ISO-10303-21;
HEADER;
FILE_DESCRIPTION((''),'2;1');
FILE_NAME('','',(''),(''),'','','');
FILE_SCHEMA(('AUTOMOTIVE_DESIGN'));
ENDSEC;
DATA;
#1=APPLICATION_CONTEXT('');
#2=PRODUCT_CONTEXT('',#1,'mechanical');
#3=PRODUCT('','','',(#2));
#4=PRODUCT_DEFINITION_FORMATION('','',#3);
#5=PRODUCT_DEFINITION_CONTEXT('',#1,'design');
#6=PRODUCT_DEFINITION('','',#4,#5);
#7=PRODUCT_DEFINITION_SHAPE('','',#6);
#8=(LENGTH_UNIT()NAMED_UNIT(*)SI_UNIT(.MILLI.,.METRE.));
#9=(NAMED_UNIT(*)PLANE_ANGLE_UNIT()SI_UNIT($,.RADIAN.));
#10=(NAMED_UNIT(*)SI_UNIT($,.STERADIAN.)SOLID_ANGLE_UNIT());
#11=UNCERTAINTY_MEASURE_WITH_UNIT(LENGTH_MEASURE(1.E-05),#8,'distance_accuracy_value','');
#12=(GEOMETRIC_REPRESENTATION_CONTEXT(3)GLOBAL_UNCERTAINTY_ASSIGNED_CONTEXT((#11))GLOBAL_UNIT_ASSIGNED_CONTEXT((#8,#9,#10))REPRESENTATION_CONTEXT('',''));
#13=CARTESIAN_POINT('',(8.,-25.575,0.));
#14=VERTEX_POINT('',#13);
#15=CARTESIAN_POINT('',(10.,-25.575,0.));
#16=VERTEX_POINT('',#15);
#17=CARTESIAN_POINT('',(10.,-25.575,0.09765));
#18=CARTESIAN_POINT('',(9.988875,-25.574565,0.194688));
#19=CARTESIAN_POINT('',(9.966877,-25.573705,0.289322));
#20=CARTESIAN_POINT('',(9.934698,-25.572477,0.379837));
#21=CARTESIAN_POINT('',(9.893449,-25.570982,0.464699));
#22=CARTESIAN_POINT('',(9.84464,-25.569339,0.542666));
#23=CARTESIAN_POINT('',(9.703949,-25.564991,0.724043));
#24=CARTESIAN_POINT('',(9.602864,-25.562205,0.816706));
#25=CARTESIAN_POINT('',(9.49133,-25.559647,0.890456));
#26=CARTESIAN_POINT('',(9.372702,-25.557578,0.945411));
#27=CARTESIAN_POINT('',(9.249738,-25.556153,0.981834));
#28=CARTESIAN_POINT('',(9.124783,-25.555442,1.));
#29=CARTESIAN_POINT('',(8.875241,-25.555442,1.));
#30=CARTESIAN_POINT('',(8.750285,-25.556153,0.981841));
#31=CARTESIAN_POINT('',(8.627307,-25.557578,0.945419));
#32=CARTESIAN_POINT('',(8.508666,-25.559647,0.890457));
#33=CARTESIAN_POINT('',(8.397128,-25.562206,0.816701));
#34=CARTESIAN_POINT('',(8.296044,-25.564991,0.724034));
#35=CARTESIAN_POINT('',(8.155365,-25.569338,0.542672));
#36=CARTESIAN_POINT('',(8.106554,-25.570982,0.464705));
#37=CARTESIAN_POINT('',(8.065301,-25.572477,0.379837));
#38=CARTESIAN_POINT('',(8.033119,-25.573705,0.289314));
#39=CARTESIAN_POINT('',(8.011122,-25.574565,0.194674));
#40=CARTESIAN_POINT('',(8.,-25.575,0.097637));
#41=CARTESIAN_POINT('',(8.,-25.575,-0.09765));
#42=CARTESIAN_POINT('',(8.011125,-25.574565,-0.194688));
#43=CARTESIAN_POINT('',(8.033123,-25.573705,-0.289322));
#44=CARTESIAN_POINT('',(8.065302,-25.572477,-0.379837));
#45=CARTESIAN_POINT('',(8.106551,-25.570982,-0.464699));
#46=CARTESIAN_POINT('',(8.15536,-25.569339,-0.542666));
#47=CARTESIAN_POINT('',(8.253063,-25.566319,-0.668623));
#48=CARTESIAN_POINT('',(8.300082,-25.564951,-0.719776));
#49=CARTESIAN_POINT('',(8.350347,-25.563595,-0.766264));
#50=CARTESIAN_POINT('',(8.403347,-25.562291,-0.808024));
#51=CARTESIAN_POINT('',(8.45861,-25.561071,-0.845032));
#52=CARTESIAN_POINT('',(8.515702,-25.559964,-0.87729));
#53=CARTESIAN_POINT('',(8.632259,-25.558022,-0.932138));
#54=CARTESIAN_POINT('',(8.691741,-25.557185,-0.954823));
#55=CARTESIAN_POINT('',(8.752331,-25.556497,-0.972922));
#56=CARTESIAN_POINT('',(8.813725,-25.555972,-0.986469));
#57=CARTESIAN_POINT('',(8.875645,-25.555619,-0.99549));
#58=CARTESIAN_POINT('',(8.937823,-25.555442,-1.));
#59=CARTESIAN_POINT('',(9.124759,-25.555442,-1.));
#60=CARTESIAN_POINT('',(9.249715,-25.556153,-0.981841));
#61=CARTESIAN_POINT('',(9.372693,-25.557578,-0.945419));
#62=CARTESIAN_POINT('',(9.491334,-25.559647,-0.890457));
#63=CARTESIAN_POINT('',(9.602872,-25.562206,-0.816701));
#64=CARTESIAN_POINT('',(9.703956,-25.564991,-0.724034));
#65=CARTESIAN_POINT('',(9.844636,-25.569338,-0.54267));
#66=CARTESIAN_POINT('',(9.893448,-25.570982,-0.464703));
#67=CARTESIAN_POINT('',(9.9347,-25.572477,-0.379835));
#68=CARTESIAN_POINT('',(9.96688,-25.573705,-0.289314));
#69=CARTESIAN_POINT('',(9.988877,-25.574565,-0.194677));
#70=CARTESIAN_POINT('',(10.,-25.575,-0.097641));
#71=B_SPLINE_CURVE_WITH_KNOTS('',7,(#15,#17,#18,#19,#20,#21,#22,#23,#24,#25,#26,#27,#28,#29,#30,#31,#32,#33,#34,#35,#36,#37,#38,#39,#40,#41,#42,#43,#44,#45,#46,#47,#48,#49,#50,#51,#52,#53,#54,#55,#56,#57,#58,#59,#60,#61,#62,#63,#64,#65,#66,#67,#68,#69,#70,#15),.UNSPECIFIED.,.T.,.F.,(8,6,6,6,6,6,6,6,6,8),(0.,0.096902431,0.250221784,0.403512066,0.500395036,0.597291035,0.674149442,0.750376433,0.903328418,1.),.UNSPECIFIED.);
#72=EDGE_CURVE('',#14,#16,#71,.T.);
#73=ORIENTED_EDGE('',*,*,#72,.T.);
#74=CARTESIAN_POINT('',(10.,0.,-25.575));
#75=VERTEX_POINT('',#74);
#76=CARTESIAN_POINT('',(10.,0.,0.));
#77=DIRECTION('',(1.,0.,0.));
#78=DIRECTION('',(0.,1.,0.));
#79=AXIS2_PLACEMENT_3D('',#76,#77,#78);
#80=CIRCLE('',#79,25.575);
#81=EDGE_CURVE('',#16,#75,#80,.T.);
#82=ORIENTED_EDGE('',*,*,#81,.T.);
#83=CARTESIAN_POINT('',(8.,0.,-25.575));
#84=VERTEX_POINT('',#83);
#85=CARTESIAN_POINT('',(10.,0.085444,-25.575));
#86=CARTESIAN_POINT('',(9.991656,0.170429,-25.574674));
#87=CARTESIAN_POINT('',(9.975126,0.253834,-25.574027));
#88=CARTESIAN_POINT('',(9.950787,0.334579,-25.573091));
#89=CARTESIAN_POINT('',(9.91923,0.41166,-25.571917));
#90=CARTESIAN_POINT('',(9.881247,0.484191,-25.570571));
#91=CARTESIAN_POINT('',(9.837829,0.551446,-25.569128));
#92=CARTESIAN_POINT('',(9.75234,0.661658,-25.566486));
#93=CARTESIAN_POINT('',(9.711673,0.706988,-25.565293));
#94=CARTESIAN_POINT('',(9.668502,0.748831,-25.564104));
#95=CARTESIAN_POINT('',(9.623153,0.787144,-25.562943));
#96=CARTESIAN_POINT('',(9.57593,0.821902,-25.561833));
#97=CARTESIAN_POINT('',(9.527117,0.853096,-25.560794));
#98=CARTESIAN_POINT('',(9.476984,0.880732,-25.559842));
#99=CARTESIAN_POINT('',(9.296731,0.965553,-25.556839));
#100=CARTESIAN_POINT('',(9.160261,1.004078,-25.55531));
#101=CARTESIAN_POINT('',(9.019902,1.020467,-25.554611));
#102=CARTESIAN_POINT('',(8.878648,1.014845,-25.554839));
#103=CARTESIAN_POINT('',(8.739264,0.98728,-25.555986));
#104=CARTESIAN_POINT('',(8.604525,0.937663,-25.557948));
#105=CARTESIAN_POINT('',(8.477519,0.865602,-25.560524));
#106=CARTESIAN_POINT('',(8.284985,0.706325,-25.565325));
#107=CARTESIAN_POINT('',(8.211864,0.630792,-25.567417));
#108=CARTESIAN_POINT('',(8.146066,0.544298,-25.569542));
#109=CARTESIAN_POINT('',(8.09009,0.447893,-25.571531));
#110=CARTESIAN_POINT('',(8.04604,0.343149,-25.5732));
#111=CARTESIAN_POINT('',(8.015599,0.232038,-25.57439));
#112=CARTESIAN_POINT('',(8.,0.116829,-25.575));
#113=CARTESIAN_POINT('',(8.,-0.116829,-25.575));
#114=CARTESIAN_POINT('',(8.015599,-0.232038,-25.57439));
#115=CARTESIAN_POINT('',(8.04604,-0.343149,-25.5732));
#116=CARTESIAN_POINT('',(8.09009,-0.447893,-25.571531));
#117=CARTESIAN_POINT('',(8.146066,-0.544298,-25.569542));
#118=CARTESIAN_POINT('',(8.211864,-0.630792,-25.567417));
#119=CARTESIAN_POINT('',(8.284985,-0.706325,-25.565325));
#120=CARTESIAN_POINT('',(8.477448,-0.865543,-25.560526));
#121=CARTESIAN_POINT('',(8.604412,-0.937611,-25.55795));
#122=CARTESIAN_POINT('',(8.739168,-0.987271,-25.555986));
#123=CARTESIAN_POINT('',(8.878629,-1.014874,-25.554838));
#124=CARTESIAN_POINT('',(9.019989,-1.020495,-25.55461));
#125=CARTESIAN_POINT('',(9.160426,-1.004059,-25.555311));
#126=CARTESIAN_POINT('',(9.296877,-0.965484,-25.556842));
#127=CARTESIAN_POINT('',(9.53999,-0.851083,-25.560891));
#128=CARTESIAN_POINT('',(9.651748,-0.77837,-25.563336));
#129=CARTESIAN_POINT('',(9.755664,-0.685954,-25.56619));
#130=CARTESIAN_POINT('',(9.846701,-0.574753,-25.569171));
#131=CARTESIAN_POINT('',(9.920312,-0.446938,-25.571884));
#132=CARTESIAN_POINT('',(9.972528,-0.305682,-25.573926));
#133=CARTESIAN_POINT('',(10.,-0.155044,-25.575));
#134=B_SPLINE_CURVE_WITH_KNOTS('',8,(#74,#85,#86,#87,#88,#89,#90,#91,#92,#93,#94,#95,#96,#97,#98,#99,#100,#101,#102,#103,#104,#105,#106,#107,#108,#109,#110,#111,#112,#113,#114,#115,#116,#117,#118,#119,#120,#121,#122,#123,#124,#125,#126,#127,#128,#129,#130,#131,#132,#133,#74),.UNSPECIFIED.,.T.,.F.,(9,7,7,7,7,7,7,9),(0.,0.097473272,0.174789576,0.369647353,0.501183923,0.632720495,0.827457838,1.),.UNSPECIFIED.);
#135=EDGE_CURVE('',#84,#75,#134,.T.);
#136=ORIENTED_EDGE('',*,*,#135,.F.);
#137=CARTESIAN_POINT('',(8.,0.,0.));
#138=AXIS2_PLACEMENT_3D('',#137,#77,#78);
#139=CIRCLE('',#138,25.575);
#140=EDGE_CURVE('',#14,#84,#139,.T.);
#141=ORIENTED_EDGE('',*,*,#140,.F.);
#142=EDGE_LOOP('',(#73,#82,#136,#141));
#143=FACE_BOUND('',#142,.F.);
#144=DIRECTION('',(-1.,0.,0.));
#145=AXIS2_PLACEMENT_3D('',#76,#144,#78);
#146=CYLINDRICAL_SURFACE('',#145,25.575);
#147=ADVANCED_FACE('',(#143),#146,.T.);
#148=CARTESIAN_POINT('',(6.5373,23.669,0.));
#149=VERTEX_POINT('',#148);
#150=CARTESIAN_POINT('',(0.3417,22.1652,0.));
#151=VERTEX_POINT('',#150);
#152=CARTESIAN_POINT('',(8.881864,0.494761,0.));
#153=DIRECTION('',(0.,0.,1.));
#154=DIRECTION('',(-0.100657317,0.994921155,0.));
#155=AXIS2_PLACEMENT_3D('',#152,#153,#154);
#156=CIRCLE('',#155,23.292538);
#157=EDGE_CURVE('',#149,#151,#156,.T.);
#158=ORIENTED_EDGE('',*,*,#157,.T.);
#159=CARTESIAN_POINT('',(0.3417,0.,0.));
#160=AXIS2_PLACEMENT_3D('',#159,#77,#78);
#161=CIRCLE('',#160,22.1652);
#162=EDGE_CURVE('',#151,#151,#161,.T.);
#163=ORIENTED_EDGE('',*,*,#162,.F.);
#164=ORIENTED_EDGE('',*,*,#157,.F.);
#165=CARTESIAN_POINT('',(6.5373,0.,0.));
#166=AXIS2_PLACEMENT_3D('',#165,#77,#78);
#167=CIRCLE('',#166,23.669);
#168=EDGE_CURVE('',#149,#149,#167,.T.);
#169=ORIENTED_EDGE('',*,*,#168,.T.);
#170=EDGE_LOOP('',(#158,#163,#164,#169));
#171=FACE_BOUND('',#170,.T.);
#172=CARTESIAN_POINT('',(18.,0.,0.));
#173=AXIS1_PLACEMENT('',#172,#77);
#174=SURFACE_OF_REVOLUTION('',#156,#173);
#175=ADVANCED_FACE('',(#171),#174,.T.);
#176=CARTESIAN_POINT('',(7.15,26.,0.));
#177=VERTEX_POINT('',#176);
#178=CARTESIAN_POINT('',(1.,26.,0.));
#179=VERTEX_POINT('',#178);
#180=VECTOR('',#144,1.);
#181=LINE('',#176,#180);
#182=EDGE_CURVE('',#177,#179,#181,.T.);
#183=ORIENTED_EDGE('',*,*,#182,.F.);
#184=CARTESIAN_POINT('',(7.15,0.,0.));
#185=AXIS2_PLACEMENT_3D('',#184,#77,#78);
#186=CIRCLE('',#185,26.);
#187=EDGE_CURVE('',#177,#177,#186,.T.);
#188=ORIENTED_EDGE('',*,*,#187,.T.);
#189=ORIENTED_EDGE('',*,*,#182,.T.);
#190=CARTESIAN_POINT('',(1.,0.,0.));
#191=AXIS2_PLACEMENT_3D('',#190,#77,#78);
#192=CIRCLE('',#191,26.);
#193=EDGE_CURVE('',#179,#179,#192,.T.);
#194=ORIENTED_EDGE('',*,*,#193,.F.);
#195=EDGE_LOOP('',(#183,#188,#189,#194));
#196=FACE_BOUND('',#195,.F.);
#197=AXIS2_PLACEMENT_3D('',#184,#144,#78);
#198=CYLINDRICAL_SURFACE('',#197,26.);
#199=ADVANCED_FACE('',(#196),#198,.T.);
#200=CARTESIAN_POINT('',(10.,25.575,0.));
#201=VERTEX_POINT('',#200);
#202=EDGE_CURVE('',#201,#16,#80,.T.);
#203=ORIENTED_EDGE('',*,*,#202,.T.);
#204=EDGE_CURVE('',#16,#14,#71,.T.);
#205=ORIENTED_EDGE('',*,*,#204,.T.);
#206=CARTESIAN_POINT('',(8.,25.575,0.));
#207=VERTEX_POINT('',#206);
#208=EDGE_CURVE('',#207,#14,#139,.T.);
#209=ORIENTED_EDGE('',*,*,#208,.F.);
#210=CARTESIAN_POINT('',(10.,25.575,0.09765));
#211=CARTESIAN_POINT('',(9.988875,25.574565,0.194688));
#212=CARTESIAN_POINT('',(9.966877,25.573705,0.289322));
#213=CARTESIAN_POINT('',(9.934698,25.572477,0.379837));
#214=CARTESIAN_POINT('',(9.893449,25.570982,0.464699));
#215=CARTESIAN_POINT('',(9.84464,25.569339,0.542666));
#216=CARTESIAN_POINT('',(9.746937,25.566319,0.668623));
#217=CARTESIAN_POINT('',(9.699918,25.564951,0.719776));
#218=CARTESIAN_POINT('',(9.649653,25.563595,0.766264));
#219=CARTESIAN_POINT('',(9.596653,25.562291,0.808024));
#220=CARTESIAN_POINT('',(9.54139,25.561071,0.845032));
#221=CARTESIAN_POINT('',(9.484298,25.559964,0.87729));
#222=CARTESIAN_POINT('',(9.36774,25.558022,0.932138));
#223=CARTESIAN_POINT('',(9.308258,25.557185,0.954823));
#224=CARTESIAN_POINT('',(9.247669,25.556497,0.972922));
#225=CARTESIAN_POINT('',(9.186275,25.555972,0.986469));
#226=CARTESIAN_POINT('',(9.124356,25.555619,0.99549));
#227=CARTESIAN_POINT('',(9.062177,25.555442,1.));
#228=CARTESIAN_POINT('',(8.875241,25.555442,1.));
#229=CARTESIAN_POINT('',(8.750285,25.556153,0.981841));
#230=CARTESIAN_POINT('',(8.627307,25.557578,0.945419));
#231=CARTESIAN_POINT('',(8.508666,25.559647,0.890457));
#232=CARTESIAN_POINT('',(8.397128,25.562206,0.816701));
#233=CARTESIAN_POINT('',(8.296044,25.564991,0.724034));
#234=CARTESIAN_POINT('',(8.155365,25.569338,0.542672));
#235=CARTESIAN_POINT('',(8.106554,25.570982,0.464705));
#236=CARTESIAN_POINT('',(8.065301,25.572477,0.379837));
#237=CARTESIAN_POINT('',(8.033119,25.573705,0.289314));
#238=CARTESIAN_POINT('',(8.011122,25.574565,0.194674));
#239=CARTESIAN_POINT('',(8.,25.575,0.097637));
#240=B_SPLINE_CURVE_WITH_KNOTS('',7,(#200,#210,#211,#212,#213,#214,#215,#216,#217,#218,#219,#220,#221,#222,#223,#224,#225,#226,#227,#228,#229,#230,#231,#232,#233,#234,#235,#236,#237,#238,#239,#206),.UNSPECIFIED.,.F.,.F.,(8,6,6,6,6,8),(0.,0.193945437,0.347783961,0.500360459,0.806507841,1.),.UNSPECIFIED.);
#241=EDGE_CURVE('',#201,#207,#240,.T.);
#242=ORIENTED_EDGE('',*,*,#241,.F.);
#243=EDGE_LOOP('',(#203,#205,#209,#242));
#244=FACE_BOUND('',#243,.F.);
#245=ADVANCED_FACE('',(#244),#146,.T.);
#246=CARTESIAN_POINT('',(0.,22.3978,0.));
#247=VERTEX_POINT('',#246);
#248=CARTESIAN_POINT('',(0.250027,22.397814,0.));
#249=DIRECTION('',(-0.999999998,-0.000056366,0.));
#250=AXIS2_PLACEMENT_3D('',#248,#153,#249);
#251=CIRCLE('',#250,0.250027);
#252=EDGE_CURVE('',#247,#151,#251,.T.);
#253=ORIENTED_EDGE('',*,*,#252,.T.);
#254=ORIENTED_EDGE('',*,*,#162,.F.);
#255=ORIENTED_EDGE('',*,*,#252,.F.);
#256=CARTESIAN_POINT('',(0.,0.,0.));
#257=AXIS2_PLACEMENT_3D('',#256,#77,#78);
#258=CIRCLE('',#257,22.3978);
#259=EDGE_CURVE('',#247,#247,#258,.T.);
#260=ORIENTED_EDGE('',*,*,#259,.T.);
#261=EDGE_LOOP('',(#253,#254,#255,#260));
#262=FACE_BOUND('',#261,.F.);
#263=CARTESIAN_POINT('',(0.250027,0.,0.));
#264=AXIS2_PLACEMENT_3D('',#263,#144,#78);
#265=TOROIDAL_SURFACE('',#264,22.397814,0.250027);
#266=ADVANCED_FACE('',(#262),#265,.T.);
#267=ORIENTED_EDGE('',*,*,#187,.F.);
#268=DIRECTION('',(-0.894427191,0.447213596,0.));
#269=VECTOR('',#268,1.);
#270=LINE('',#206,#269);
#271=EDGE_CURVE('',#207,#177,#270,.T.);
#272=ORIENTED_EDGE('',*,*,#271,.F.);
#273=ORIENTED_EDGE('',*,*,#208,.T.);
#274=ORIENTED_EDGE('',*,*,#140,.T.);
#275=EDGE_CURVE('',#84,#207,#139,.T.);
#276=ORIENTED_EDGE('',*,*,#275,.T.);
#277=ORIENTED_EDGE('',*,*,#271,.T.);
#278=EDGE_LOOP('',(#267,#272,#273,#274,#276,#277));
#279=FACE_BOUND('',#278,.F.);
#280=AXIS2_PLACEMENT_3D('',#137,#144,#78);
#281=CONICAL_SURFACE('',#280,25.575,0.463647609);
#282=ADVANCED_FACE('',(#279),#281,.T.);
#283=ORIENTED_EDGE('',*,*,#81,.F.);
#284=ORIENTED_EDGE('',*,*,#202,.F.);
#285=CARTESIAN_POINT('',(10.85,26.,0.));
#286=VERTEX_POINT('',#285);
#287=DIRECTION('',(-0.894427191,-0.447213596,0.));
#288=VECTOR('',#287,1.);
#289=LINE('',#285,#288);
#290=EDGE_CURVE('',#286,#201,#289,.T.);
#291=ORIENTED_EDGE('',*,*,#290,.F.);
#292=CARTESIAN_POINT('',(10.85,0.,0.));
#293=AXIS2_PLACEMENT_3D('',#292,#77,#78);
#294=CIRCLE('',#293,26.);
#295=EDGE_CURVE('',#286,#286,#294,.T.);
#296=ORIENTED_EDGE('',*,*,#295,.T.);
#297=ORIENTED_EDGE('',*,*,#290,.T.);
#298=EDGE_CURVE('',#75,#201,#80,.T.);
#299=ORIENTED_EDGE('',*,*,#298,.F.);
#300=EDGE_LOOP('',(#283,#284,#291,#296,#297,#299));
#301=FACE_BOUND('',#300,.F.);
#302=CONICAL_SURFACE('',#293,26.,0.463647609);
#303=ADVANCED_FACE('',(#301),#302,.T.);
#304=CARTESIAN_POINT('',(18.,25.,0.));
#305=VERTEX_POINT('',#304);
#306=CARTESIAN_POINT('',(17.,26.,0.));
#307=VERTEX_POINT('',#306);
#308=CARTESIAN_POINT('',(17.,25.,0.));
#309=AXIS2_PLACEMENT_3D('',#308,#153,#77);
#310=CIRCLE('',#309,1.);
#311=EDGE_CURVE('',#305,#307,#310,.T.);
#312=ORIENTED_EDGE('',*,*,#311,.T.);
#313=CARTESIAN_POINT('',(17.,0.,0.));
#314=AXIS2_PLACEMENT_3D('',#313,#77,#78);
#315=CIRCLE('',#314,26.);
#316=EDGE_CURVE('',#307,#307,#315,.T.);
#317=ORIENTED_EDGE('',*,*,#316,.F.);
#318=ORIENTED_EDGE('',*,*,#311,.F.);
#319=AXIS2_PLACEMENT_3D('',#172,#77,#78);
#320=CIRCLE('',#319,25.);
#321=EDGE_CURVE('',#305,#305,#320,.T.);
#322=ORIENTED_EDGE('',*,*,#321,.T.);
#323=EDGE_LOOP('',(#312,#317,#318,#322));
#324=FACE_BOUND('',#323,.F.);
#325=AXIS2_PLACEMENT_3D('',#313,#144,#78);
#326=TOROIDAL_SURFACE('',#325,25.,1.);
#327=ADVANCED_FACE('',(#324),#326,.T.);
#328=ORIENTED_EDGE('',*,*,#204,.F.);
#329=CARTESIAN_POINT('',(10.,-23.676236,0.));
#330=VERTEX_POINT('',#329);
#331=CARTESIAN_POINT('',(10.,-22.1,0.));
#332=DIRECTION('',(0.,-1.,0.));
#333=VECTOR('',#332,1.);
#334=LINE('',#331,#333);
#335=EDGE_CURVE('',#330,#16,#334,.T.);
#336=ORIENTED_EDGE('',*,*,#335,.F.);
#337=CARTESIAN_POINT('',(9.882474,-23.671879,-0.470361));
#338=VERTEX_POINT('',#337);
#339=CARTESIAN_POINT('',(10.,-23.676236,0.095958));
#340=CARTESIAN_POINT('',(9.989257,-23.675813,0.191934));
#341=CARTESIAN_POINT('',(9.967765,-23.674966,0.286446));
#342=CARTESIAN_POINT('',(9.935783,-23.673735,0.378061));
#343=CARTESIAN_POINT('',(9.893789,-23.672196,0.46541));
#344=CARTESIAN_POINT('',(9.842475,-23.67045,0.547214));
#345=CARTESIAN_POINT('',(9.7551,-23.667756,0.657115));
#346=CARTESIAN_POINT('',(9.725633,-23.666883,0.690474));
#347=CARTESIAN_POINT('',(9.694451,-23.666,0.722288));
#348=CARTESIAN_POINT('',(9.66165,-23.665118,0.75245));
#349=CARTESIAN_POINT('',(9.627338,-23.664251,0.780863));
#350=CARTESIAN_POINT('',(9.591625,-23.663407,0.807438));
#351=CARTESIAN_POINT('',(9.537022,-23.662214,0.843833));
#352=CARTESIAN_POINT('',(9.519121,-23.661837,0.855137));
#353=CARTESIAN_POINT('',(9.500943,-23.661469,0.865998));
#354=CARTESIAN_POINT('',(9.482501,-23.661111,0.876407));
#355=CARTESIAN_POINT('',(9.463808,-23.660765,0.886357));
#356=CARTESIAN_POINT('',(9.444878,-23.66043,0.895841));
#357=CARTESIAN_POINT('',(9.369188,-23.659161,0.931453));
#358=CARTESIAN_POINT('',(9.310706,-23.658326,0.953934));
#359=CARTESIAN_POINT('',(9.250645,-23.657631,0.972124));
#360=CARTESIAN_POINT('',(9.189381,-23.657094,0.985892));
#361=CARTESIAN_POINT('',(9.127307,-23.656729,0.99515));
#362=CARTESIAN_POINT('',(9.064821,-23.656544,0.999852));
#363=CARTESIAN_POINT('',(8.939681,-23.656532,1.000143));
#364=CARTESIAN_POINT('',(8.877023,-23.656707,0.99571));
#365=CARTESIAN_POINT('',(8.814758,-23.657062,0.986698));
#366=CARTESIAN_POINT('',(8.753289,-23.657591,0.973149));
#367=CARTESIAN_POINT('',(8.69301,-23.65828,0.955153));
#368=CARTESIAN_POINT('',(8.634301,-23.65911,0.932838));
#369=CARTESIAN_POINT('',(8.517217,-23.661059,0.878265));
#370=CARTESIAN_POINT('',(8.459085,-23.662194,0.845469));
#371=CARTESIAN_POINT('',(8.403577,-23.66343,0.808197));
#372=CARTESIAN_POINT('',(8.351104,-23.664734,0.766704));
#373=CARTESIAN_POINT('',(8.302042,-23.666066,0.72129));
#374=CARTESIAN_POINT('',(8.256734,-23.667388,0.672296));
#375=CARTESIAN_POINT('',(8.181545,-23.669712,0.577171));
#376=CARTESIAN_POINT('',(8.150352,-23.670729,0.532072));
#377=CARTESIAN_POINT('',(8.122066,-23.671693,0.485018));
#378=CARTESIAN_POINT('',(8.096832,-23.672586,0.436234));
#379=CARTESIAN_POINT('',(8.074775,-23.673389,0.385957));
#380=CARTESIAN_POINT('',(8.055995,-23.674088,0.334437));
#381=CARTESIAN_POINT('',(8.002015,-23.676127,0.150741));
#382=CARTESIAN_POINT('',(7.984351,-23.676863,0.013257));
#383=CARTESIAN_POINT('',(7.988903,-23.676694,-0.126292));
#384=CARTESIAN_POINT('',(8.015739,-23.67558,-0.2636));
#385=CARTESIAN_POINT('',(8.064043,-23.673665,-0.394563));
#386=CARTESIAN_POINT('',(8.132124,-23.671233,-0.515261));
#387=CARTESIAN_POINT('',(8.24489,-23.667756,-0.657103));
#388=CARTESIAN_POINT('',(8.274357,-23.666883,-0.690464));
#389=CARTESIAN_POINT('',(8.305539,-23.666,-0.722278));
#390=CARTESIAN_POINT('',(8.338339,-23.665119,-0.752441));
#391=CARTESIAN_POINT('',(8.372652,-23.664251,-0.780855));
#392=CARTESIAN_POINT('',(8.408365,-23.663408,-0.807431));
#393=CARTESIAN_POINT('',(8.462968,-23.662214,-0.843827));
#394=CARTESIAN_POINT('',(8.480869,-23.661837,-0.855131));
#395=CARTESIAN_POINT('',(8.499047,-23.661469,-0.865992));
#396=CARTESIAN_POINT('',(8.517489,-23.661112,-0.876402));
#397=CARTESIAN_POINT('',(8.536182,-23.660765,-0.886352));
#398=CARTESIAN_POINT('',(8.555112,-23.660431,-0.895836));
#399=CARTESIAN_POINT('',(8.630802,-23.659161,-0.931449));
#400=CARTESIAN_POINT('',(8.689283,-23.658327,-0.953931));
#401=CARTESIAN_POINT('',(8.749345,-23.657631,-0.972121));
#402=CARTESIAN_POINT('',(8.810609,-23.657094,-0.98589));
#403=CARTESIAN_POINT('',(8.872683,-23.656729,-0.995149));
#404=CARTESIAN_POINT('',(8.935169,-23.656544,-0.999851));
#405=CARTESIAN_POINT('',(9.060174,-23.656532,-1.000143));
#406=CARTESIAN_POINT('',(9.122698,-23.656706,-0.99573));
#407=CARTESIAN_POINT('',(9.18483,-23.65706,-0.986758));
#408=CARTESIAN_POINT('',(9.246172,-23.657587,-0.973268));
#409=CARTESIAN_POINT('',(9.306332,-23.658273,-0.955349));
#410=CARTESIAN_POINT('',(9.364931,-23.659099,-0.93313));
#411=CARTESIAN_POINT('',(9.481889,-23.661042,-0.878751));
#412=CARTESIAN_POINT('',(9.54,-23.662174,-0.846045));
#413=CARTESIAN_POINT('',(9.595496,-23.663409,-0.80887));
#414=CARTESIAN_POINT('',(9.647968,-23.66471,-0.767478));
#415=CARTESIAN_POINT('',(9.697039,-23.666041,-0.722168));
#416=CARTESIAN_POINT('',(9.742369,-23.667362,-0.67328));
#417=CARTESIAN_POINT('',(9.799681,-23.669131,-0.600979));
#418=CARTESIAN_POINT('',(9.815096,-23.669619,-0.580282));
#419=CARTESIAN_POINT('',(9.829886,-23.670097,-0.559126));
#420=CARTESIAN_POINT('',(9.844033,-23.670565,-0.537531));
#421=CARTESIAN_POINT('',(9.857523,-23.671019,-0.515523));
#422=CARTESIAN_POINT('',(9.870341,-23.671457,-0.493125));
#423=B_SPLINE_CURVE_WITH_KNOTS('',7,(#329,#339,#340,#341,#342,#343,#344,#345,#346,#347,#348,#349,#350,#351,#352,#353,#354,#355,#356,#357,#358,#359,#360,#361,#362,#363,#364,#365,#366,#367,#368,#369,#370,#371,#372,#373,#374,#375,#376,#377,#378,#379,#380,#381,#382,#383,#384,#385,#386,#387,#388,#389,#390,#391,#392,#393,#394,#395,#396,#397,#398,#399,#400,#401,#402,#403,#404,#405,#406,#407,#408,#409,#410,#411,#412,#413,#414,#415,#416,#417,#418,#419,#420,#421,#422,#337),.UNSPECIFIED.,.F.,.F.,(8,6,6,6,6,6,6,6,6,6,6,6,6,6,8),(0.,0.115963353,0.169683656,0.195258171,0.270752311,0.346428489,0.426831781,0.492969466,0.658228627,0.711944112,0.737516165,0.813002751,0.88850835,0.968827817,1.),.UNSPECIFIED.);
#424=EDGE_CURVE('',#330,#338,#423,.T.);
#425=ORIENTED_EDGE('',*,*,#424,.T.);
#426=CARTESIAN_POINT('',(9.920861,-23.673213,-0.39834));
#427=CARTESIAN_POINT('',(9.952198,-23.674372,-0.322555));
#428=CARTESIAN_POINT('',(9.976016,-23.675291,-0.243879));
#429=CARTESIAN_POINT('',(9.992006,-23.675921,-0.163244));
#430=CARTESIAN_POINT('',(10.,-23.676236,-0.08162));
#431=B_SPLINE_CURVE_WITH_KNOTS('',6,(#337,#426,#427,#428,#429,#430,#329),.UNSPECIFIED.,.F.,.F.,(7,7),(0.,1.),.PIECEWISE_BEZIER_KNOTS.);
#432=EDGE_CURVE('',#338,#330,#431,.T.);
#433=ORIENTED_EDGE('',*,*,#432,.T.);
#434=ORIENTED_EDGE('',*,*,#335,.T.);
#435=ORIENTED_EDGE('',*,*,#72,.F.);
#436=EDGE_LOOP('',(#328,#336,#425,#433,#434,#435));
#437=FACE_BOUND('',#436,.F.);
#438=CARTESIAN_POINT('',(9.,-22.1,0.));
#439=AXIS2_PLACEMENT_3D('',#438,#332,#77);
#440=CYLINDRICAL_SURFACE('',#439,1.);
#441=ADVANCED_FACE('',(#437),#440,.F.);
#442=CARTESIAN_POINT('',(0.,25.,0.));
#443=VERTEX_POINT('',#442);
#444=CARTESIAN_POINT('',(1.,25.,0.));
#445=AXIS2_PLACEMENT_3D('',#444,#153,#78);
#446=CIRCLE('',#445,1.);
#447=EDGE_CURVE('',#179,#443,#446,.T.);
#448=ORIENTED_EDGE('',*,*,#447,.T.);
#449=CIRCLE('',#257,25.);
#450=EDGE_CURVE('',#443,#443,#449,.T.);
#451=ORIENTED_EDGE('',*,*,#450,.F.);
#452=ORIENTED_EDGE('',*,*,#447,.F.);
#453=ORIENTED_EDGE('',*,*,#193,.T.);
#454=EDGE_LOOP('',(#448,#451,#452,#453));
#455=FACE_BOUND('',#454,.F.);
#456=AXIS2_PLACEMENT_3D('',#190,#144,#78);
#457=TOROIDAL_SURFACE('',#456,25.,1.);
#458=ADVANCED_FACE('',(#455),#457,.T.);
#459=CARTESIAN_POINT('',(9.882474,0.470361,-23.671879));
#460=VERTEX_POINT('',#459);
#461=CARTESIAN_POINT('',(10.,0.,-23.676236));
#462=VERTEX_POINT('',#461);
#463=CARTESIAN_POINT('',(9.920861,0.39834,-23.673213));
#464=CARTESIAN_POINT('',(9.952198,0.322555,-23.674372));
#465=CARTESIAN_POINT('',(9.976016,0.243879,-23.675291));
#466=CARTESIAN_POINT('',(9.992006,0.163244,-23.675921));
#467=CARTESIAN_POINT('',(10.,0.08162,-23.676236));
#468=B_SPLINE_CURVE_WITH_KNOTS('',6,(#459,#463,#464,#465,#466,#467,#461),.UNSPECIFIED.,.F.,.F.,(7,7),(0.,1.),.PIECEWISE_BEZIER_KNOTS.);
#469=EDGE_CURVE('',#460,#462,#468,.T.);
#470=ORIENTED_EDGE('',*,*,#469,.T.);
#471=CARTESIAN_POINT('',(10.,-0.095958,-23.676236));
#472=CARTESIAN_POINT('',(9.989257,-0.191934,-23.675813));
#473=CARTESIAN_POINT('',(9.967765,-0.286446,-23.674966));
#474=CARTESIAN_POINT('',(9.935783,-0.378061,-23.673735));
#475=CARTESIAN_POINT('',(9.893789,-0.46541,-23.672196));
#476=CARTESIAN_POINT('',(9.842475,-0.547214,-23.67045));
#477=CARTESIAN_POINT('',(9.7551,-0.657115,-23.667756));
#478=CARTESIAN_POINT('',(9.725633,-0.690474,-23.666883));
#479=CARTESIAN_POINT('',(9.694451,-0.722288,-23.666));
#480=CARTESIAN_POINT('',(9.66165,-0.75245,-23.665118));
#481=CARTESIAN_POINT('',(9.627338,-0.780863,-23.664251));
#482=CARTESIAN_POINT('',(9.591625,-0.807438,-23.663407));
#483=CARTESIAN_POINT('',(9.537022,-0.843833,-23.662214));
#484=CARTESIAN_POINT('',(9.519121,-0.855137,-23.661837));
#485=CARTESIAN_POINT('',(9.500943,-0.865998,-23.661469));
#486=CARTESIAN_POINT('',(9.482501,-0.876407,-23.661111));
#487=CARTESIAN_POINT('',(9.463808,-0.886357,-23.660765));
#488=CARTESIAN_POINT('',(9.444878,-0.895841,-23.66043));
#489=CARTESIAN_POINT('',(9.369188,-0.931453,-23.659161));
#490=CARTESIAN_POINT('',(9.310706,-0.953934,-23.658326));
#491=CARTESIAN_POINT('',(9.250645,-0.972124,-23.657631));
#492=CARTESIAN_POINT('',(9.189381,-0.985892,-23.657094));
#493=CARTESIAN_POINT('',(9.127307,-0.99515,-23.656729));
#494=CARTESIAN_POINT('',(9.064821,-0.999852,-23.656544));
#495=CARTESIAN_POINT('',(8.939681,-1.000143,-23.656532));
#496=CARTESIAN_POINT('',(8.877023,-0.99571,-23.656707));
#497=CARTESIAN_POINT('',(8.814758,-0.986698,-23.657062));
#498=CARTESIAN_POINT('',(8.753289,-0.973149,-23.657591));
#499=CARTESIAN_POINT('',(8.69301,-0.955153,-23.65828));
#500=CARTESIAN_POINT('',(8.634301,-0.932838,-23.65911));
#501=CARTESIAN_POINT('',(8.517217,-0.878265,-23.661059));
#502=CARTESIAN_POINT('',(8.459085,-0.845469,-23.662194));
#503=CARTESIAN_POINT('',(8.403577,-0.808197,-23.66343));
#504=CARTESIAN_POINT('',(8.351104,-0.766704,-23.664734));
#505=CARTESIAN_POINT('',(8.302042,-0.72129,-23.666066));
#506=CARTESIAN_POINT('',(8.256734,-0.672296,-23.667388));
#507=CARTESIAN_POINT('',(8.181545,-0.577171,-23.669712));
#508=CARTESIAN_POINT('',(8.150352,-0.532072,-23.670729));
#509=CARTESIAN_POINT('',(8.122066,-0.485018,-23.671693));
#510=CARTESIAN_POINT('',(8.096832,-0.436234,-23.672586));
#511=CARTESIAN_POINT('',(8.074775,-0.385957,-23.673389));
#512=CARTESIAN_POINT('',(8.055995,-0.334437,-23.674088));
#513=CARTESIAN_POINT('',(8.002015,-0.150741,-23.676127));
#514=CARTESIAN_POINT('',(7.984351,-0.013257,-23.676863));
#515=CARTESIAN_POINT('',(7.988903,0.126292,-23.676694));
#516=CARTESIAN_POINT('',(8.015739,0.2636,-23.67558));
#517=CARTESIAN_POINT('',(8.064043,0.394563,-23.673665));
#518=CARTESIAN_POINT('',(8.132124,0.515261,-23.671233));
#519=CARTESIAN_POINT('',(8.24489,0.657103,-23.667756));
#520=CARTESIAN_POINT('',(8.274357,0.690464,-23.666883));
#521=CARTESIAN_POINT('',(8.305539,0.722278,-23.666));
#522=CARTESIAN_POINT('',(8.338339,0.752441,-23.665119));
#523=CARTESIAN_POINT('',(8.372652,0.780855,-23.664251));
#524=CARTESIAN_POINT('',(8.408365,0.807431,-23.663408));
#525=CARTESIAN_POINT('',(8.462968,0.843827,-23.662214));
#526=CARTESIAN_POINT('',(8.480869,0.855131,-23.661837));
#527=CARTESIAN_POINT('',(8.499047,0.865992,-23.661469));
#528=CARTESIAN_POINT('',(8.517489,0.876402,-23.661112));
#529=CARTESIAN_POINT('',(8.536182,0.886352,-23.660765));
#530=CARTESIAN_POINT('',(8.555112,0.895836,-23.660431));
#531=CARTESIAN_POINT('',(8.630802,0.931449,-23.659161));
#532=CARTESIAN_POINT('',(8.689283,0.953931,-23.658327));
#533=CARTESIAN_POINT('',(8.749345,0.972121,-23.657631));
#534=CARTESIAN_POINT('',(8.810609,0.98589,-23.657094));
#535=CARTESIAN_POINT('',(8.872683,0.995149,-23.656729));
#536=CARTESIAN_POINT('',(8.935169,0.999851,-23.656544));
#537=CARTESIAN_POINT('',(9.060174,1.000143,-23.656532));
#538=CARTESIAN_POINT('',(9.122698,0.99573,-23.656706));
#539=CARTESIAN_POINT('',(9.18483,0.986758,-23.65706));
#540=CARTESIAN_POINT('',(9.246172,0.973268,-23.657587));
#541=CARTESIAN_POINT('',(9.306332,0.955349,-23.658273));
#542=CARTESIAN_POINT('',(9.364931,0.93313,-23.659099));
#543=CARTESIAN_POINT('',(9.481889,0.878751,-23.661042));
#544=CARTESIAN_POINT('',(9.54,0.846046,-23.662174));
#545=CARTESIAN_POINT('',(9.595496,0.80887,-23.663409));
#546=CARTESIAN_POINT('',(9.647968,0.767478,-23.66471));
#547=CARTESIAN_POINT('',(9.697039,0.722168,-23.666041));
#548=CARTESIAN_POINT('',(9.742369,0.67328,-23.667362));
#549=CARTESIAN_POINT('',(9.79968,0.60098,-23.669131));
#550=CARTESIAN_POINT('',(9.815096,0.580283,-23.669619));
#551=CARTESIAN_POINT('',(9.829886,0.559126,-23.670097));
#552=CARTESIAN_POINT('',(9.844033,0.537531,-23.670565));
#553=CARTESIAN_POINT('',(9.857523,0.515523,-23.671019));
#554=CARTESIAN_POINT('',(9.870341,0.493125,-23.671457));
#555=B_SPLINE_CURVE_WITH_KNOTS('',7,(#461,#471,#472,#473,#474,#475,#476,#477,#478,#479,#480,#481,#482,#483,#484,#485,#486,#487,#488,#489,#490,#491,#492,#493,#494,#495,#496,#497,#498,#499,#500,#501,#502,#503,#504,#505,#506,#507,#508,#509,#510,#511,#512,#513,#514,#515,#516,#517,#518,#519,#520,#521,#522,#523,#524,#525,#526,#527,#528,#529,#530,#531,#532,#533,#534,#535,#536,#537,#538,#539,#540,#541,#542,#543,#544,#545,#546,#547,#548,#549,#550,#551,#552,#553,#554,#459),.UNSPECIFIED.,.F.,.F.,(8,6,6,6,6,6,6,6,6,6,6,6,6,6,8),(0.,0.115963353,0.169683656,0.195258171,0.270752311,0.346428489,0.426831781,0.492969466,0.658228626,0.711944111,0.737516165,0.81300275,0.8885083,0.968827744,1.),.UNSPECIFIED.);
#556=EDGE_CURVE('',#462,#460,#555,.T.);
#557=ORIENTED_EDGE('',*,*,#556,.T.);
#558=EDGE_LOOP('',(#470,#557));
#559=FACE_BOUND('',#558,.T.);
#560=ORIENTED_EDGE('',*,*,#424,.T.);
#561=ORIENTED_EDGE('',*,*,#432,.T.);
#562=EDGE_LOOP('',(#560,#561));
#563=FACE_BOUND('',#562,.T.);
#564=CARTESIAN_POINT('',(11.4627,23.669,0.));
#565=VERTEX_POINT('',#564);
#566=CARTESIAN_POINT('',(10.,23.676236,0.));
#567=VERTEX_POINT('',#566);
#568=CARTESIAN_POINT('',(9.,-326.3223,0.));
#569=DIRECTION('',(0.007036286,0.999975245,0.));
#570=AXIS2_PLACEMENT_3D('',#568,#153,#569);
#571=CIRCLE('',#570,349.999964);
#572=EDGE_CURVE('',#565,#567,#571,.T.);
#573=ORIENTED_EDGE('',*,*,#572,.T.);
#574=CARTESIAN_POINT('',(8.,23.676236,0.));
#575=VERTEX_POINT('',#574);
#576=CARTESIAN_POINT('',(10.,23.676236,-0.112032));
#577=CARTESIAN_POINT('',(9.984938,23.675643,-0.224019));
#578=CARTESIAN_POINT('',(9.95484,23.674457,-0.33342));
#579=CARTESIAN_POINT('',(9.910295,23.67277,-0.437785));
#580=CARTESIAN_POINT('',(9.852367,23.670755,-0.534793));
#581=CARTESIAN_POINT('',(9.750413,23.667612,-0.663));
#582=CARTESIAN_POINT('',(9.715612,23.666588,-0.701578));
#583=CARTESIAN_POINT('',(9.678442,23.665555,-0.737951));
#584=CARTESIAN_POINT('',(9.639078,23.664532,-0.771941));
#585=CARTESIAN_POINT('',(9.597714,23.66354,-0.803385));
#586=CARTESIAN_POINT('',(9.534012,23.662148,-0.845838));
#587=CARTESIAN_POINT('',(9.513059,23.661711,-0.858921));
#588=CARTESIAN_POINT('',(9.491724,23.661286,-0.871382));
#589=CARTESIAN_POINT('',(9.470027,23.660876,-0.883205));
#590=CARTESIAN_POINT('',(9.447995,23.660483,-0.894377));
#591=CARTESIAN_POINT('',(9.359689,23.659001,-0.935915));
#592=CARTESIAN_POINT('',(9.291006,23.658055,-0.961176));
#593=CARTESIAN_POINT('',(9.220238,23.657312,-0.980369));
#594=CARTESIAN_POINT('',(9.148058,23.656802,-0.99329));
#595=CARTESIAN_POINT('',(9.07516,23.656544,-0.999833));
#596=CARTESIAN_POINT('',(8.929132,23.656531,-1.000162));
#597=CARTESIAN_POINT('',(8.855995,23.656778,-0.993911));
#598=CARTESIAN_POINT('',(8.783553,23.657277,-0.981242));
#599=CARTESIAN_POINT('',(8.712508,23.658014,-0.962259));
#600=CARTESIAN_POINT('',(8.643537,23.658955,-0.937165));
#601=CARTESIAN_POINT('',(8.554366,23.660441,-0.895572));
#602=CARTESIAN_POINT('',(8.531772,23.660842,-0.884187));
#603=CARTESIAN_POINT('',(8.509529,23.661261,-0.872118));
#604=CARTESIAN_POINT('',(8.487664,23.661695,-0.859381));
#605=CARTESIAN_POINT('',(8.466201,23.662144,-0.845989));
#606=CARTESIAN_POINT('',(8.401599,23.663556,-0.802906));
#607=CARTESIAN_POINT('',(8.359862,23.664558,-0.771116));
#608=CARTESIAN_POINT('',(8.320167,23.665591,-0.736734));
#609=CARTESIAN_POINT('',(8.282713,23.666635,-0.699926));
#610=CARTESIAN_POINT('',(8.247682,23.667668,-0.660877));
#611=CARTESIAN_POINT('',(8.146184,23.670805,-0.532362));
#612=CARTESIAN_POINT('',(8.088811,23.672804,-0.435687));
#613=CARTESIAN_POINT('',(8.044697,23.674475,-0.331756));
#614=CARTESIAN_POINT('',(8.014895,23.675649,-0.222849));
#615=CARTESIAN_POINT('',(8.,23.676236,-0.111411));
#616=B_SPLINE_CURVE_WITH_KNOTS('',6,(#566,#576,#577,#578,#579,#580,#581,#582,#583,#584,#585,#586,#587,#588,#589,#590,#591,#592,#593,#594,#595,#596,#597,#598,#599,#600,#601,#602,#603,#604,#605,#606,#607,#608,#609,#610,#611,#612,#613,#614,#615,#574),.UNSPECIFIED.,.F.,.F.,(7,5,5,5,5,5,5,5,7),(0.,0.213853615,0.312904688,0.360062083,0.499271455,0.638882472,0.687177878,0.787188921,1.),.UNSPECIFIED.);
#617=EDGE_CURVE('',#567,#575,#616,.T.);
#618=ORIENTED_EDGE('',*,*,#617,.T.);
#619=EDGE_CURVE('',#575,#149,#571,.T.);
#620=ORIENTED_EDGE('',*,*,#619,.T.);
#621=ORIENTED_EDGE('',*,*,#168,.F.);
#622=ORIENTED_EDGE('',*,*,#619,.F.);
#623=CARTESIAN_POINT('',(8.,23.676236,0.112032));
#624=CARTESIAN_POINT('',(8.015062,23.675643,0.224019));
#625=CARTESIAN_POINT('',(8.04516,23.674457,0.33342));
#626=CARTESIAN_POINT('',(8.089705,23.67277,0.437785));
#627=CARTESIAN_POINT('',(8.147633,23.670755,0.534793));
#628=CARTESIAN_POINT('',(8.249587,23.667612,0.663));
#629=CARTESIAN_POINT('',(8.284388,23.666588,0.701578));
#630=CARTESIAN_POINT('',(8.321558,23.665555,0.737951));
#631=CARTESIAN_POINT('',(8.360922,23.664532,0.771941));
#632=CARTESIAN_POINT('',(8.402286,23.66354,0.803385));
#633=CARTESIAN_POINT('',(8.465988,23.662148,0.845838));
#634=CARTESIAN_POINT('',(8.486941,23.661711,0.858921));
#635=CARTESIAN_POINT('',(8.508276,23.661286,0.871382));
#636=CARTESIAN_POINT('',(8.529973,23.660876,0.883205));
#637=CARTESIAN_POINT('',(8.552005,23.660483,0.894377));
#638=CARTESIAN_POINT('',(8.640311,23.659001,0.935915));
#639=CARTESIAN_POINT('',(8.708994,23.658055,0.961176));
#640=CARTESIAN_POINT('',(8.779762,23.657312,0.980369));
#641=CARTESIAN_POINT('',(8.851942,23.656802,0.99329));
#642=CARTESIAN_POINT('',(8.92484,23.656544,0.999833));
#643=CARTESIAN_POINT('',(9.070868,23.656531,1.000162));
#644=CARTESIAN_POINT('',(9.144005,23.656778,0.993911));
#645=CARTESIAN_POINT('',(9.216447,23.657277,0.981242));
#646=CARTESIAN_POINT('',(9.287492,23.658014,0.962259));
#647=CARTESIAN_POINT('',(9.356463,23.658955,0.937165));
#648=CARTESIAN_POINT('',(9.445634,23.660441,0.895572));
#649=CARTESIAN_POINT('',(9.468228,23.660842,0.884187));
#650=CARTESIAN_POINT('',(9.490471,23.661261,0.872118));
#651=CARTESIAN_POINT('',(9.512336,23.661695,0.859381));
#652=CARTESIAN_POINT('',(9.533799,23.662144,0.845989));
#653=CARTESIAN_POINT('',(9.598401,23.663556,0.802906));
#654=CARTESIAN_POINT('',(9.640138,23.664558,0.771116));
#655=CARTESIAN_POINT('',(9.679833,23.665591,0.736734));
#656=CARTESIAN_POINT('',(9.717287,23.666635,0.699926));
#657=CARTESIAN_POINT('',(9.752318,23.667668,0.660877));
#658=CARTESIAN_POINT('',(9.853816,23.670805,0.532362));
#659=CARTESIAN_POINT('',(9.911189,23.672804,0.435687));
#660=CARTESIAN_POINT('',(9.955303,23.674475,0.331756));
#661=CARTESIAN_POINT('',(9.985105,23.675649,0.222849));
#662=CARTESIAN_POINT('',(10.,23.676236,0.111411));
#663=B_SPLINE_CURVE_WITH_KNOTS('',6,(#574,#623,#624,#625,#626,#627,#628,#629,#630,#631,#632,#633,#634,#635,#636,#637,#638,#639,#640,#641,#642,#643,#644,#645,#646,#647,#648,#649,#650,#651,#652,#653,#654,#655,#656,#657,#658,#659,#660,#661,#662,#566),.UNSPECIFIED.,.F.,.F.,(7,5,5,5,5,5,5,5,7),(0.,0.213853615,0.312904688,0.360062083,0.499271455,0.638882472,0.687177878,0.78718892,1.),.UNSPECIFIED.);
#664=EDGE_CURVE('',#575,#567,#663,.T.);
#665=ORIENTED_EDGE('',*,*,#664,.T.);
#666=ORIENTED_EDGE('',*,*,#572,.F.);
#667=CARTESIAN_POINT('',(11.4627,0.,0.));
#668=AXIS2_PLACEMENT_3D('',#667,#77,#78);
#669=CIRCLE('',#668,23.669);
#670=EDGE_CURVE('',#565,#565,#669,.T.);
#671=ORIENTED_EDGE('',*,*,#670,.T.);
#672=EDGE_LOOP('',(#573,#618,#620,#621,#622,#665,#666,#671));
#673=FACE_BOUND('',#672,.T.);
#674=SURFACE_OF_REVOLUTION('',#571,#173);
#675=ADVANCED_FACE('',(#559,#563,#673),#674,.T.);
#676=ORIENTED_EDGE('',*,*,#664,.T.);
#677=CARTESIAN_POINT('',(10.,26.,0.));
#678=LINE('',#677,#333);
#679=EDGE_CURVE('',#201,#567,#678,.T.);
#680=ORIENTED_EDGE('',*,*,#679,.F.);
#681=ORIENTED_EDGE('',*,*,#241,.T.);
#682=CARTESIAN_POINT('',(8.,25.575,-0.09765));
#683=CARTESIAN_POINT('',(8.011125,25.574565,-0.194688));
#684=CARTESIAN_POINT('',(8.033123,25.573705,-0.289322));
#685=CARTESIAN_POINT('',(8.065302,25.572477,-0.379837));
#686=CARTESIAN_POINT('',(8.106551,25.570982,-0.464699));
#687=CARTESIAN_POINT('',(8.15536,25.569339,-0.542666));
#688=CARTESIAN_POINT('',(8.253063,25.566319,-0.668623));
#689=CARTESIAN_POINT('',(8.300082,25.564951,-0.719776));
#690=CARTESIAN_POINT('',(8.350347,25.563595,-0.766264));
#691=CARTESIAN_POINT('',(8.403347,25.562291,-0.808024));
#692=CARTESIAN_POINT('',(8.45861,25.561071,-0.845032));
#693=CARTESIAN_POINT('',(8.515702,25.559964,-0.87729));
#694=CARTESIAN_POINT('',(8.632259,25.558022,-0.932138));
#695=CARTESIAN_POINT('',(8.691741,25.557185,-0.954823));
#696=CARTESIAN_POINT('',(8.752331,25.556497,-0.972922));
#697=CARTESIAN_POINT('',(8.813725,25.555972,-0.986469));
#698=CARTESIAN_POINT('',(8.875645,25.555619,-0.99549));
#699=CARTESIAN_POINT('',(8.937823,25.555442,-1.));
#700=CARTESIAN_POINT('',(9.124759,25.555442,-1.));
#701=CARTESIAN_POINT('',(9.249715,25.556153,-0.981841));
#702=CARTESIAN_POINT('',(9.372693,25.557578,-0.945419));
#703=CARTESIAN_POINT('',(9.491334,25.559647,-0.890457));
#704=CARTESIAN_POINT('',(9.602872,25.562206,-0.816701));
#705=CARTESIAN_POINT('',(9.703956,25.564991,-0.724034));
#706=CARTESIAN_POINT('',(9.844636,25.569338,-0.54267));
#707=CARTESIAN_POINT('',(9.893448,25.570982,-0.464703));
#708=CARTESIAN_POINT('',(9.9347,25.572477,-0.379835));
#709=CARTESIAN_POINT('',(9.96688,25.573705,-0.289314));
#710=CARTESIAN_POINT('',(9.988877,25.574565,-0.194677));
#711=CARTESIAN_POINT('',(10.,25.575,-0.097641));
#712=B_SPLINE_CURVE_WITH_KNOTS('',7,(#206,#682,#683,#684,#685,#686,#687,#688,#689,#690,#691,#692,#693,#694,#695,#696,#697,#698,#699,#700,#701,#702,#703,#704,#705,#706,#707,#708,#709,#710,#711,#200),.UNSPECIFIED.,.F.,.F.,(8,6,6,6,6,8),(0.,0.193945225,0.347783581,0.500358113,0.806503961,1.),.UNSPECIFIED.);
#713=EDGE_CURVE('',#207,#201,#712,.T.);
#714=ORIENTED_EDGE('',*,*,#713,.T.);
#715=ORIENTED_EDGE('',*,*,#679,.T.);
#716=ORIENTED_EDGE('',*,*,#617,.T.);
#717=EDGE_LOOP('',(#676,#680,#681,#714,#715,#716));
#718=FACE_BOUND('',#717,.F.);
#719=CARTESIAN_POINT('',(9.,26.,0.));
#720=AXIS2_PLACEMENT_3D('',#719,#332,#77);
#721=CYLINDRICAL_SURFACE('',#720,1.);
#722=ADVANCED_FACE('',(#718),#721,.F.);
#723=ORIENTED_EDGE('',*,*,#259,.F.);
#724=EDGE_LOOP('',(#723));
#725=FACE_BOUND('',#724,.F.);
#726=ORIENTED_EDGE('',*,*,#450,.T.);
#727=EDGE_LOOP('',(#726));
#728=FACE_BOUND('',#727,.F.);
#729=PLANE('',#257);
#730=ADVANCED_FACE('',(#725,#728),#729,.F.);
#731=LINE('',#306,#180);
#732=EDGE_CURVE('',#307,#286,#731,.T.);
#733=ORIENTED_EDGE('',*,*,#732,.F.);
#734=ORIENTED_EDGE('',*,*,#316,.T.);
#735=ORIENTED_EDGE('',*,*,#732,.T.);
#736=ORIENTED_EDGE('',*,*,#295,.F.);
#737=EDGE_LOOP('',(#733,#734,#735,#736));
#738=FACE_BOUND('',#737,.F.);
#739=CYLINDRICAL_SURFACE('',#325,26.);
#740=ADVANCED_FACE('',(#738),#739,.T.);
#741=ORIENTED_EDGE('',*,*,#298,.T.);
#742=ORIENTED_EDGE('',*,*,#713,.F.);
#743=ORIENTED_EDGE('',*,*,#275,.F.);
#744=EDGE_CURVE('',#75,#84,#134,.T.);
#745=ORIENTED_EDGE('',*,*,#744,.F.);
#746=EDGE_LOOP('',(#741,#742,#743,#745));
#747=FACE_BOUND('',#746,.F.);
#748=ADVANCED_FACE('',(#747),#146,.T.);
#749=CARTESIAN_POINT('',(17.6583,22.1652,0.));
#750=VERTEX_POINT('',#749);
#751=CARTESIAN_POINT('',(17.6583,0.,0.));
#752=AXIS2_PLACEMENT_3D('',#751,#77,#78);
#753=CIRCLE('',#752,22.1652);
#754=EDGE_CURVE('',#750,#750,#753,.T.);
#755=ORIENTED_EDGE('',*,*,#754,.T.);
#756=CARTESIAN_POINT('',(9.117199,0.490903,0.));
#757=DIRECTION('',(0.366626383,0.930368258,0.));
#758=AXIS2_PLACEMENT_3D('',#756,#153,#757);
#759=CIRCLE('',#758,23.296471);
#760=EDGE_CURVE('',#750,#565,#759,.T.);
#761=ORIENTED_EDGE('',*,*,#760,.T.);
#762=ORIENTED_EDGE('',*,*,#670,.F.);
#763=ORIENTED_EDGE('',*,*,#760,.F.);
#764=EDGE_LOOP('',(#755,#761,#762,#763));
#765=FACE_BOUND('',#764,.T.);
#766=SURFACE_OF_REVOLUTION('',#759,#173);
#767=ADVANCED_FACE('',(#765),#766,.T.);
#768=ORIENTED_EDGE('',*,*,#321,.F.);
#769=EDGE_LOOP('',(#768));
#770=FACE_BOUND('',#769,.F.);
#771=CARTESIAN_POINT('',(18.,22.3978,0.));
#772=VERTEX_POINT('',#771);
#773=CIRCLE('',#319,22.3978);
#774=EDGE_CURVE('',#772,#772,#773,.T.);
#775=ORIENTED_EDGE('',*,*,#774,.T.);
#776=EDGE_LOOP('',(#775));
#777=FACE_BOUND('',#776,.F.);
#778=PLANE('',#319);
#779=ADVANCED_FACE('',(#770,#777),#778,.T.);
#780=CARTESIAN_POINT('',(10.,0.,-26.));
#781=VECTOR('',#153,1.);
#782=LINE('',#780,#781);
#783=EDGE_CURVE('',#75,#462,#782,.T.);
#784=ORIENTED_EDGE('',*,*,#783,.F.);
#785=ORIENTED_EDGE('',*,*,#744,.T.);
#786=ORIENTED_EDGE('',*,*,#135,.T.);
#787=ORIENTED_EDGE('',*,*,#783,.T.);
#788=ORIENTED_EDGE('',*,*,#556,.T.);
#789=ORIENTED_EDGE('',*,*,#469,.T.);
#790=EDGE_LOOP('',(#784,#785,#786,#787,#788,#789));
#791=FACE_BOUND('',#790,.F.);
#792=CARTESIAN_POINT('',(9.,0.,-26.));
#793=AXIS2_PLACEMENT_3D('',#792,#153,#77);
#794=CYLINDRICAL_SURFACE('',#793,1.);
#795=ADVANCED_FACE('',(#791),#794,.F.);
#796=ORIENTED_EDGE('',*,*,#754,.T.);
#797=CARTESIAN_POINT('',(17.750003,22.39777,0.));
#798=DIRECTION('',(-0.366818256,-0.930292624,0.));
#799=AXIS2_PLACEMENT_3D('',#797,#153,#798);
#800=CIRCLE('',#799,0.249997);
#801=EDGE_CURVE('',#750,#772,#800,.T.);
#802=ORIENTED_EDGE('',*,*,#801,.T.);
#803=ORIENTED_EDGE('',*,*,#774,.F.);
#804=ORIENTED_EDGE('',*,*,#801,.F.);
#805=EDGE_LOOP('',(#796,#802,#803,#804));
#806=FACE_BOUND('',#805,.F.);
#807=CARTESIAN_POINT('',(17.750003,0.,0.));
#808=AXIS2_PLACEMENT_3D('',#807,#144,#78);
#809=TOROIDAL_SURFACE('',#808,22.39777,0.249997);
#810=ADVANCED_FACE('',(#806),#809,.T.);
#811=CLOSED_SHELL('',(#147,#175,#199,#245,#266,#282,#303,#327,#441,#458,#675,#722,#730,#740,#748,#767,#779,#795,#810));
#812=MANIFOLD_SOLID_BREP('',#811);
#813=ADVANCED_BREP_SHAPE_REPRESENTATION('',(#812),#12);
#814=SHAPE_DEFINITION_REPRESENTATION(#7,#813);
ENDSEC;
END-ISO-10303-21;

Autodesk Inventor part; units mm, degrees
sketch "Sketch_5" plane through (0, 0, 0) normal (0, 0, 1) x (1, 0, 0)
  line L0 (18, 0) -> (-18, 0)
  arc A0 (0, 22.3978) -> (0.3417, 22.1652) centre (0.25, 22.3978) ccw
  arc A1 (6.5373, 23.669) -> (0.3417, 22.1652) centre (8.8822, 0.4928) ccw
  arc A2 (11.4627, 23.669) -> (6.5373, 23.669) centre (9, -326.3223) ccw
  arc A3 (17.6583, 22.1652) -> (11.4627, 23.669) centre (9.1178, 0.4928) ccw
  arc A4 (17.6583, 22.1652) -> (18, 22.3978) centre (17.75, 22.3978) ccw
  line L1 (18, 22.3978) -> (18, 25)
  arc A5 (18, 25) -> (17, 26) centre (17, 25) ccw
  line L2 (17, 26) -> (10.85, 26)
  line L3 (10.85, 26) -> (10, 25.575)
  line L4 (10, 25.575) -> (8, 25.575)
  line L5 (8, 25.575) -> (7.15, 26)
  line L6 (7.15, 26) -> (1, 26)
  arc A6 (1, 26) -> (0, 25) centre (1, 25) ccw
  line L7 (0, 25) -> (0, 22.3978)
revolve "Revolution1" add sketch "Sketch_5" angle 360 about axis through (18, 0, 0) along (1, 0, 0)
sketch "Sketch_2" plane through (0, 0, 0) normal (0, 0, 1) x (1, 0, 0)
  line L0 (9, -26) -> (9, -22.1)
  line L1 (9, -22.1) -> (10, -22.1)
  line L2 (10, -22.1) -> (10, -26)
  line L3 (10, -26) -> (9, -26)
  line L4 (9, -26) -> (9, -22.1)
revolve "Revolution2" cut sketch "Sketch_2" angle 360 about axis through (9, -26, 0) along (0, -1, 0)
sketch "Sketch_9" plane through (0, 0, 0) normal (0, 1, 0) x (-1, 0, 0)
  line L0 (-9, -22.1) -> (-9, -26)
  line L1 (-9, -26) -> (-10, -26)
  line L2 (-10, -26) -> (-10, -22.1)
  line L3 (-10, -22.1) -> (-9, -22.1)
  line L4 (-9, -22.1) -> (-9, -26)
revolve "Revolution3" cut sketch "Sketch_9" angle 360 about axis through (9, 0, -22.1) along (0, 0, 1)
sketch "Sketch_10" plane through (0, 0, 0) normal (0, 0, 1) x (1, 0, 0)
  line L0 (9, 22.1) -> (9, 26)
  line L1 (9, 26) -> (10, 26)
  line L2 (10, 26) -> (10, 22.1)
  line L3 (10, 22.1) -> (9, 22.1)
  line L4 (9, 22.1) -> (9, 26)
revolve "Revolution4" cut sketch "Sketch_10" angle 360 about axis through (9, 22.1, 0) along (0, -1, 0)
ref_plane "NO_GEO_XY" through (0, 0, 0) normal (1, 0, 0) x (0, 0, -1)
ref_plane "NO_GEO_YZ" through (0, 0, 0) normal (0, 0, -1) x (0, 1, 0)
ref_plane "NO_GEO_ZX" through (0, 0, 0) normal (0, 1, 0) x (1, 0, 0)
ref_plane "or_XY" through (0, 0, 0) normal (0, 0, 1) x (1, 0, 0)
ref_plane "or_YZ" through (0, 0, 0) normal (1, 0, 0) x (0, 1, 0)
ref_plane "or_ZX" through (0, 0, 0) normal (0, 1, 0) x (0, 0, 1)
properties part number "22205/20 E_or"
